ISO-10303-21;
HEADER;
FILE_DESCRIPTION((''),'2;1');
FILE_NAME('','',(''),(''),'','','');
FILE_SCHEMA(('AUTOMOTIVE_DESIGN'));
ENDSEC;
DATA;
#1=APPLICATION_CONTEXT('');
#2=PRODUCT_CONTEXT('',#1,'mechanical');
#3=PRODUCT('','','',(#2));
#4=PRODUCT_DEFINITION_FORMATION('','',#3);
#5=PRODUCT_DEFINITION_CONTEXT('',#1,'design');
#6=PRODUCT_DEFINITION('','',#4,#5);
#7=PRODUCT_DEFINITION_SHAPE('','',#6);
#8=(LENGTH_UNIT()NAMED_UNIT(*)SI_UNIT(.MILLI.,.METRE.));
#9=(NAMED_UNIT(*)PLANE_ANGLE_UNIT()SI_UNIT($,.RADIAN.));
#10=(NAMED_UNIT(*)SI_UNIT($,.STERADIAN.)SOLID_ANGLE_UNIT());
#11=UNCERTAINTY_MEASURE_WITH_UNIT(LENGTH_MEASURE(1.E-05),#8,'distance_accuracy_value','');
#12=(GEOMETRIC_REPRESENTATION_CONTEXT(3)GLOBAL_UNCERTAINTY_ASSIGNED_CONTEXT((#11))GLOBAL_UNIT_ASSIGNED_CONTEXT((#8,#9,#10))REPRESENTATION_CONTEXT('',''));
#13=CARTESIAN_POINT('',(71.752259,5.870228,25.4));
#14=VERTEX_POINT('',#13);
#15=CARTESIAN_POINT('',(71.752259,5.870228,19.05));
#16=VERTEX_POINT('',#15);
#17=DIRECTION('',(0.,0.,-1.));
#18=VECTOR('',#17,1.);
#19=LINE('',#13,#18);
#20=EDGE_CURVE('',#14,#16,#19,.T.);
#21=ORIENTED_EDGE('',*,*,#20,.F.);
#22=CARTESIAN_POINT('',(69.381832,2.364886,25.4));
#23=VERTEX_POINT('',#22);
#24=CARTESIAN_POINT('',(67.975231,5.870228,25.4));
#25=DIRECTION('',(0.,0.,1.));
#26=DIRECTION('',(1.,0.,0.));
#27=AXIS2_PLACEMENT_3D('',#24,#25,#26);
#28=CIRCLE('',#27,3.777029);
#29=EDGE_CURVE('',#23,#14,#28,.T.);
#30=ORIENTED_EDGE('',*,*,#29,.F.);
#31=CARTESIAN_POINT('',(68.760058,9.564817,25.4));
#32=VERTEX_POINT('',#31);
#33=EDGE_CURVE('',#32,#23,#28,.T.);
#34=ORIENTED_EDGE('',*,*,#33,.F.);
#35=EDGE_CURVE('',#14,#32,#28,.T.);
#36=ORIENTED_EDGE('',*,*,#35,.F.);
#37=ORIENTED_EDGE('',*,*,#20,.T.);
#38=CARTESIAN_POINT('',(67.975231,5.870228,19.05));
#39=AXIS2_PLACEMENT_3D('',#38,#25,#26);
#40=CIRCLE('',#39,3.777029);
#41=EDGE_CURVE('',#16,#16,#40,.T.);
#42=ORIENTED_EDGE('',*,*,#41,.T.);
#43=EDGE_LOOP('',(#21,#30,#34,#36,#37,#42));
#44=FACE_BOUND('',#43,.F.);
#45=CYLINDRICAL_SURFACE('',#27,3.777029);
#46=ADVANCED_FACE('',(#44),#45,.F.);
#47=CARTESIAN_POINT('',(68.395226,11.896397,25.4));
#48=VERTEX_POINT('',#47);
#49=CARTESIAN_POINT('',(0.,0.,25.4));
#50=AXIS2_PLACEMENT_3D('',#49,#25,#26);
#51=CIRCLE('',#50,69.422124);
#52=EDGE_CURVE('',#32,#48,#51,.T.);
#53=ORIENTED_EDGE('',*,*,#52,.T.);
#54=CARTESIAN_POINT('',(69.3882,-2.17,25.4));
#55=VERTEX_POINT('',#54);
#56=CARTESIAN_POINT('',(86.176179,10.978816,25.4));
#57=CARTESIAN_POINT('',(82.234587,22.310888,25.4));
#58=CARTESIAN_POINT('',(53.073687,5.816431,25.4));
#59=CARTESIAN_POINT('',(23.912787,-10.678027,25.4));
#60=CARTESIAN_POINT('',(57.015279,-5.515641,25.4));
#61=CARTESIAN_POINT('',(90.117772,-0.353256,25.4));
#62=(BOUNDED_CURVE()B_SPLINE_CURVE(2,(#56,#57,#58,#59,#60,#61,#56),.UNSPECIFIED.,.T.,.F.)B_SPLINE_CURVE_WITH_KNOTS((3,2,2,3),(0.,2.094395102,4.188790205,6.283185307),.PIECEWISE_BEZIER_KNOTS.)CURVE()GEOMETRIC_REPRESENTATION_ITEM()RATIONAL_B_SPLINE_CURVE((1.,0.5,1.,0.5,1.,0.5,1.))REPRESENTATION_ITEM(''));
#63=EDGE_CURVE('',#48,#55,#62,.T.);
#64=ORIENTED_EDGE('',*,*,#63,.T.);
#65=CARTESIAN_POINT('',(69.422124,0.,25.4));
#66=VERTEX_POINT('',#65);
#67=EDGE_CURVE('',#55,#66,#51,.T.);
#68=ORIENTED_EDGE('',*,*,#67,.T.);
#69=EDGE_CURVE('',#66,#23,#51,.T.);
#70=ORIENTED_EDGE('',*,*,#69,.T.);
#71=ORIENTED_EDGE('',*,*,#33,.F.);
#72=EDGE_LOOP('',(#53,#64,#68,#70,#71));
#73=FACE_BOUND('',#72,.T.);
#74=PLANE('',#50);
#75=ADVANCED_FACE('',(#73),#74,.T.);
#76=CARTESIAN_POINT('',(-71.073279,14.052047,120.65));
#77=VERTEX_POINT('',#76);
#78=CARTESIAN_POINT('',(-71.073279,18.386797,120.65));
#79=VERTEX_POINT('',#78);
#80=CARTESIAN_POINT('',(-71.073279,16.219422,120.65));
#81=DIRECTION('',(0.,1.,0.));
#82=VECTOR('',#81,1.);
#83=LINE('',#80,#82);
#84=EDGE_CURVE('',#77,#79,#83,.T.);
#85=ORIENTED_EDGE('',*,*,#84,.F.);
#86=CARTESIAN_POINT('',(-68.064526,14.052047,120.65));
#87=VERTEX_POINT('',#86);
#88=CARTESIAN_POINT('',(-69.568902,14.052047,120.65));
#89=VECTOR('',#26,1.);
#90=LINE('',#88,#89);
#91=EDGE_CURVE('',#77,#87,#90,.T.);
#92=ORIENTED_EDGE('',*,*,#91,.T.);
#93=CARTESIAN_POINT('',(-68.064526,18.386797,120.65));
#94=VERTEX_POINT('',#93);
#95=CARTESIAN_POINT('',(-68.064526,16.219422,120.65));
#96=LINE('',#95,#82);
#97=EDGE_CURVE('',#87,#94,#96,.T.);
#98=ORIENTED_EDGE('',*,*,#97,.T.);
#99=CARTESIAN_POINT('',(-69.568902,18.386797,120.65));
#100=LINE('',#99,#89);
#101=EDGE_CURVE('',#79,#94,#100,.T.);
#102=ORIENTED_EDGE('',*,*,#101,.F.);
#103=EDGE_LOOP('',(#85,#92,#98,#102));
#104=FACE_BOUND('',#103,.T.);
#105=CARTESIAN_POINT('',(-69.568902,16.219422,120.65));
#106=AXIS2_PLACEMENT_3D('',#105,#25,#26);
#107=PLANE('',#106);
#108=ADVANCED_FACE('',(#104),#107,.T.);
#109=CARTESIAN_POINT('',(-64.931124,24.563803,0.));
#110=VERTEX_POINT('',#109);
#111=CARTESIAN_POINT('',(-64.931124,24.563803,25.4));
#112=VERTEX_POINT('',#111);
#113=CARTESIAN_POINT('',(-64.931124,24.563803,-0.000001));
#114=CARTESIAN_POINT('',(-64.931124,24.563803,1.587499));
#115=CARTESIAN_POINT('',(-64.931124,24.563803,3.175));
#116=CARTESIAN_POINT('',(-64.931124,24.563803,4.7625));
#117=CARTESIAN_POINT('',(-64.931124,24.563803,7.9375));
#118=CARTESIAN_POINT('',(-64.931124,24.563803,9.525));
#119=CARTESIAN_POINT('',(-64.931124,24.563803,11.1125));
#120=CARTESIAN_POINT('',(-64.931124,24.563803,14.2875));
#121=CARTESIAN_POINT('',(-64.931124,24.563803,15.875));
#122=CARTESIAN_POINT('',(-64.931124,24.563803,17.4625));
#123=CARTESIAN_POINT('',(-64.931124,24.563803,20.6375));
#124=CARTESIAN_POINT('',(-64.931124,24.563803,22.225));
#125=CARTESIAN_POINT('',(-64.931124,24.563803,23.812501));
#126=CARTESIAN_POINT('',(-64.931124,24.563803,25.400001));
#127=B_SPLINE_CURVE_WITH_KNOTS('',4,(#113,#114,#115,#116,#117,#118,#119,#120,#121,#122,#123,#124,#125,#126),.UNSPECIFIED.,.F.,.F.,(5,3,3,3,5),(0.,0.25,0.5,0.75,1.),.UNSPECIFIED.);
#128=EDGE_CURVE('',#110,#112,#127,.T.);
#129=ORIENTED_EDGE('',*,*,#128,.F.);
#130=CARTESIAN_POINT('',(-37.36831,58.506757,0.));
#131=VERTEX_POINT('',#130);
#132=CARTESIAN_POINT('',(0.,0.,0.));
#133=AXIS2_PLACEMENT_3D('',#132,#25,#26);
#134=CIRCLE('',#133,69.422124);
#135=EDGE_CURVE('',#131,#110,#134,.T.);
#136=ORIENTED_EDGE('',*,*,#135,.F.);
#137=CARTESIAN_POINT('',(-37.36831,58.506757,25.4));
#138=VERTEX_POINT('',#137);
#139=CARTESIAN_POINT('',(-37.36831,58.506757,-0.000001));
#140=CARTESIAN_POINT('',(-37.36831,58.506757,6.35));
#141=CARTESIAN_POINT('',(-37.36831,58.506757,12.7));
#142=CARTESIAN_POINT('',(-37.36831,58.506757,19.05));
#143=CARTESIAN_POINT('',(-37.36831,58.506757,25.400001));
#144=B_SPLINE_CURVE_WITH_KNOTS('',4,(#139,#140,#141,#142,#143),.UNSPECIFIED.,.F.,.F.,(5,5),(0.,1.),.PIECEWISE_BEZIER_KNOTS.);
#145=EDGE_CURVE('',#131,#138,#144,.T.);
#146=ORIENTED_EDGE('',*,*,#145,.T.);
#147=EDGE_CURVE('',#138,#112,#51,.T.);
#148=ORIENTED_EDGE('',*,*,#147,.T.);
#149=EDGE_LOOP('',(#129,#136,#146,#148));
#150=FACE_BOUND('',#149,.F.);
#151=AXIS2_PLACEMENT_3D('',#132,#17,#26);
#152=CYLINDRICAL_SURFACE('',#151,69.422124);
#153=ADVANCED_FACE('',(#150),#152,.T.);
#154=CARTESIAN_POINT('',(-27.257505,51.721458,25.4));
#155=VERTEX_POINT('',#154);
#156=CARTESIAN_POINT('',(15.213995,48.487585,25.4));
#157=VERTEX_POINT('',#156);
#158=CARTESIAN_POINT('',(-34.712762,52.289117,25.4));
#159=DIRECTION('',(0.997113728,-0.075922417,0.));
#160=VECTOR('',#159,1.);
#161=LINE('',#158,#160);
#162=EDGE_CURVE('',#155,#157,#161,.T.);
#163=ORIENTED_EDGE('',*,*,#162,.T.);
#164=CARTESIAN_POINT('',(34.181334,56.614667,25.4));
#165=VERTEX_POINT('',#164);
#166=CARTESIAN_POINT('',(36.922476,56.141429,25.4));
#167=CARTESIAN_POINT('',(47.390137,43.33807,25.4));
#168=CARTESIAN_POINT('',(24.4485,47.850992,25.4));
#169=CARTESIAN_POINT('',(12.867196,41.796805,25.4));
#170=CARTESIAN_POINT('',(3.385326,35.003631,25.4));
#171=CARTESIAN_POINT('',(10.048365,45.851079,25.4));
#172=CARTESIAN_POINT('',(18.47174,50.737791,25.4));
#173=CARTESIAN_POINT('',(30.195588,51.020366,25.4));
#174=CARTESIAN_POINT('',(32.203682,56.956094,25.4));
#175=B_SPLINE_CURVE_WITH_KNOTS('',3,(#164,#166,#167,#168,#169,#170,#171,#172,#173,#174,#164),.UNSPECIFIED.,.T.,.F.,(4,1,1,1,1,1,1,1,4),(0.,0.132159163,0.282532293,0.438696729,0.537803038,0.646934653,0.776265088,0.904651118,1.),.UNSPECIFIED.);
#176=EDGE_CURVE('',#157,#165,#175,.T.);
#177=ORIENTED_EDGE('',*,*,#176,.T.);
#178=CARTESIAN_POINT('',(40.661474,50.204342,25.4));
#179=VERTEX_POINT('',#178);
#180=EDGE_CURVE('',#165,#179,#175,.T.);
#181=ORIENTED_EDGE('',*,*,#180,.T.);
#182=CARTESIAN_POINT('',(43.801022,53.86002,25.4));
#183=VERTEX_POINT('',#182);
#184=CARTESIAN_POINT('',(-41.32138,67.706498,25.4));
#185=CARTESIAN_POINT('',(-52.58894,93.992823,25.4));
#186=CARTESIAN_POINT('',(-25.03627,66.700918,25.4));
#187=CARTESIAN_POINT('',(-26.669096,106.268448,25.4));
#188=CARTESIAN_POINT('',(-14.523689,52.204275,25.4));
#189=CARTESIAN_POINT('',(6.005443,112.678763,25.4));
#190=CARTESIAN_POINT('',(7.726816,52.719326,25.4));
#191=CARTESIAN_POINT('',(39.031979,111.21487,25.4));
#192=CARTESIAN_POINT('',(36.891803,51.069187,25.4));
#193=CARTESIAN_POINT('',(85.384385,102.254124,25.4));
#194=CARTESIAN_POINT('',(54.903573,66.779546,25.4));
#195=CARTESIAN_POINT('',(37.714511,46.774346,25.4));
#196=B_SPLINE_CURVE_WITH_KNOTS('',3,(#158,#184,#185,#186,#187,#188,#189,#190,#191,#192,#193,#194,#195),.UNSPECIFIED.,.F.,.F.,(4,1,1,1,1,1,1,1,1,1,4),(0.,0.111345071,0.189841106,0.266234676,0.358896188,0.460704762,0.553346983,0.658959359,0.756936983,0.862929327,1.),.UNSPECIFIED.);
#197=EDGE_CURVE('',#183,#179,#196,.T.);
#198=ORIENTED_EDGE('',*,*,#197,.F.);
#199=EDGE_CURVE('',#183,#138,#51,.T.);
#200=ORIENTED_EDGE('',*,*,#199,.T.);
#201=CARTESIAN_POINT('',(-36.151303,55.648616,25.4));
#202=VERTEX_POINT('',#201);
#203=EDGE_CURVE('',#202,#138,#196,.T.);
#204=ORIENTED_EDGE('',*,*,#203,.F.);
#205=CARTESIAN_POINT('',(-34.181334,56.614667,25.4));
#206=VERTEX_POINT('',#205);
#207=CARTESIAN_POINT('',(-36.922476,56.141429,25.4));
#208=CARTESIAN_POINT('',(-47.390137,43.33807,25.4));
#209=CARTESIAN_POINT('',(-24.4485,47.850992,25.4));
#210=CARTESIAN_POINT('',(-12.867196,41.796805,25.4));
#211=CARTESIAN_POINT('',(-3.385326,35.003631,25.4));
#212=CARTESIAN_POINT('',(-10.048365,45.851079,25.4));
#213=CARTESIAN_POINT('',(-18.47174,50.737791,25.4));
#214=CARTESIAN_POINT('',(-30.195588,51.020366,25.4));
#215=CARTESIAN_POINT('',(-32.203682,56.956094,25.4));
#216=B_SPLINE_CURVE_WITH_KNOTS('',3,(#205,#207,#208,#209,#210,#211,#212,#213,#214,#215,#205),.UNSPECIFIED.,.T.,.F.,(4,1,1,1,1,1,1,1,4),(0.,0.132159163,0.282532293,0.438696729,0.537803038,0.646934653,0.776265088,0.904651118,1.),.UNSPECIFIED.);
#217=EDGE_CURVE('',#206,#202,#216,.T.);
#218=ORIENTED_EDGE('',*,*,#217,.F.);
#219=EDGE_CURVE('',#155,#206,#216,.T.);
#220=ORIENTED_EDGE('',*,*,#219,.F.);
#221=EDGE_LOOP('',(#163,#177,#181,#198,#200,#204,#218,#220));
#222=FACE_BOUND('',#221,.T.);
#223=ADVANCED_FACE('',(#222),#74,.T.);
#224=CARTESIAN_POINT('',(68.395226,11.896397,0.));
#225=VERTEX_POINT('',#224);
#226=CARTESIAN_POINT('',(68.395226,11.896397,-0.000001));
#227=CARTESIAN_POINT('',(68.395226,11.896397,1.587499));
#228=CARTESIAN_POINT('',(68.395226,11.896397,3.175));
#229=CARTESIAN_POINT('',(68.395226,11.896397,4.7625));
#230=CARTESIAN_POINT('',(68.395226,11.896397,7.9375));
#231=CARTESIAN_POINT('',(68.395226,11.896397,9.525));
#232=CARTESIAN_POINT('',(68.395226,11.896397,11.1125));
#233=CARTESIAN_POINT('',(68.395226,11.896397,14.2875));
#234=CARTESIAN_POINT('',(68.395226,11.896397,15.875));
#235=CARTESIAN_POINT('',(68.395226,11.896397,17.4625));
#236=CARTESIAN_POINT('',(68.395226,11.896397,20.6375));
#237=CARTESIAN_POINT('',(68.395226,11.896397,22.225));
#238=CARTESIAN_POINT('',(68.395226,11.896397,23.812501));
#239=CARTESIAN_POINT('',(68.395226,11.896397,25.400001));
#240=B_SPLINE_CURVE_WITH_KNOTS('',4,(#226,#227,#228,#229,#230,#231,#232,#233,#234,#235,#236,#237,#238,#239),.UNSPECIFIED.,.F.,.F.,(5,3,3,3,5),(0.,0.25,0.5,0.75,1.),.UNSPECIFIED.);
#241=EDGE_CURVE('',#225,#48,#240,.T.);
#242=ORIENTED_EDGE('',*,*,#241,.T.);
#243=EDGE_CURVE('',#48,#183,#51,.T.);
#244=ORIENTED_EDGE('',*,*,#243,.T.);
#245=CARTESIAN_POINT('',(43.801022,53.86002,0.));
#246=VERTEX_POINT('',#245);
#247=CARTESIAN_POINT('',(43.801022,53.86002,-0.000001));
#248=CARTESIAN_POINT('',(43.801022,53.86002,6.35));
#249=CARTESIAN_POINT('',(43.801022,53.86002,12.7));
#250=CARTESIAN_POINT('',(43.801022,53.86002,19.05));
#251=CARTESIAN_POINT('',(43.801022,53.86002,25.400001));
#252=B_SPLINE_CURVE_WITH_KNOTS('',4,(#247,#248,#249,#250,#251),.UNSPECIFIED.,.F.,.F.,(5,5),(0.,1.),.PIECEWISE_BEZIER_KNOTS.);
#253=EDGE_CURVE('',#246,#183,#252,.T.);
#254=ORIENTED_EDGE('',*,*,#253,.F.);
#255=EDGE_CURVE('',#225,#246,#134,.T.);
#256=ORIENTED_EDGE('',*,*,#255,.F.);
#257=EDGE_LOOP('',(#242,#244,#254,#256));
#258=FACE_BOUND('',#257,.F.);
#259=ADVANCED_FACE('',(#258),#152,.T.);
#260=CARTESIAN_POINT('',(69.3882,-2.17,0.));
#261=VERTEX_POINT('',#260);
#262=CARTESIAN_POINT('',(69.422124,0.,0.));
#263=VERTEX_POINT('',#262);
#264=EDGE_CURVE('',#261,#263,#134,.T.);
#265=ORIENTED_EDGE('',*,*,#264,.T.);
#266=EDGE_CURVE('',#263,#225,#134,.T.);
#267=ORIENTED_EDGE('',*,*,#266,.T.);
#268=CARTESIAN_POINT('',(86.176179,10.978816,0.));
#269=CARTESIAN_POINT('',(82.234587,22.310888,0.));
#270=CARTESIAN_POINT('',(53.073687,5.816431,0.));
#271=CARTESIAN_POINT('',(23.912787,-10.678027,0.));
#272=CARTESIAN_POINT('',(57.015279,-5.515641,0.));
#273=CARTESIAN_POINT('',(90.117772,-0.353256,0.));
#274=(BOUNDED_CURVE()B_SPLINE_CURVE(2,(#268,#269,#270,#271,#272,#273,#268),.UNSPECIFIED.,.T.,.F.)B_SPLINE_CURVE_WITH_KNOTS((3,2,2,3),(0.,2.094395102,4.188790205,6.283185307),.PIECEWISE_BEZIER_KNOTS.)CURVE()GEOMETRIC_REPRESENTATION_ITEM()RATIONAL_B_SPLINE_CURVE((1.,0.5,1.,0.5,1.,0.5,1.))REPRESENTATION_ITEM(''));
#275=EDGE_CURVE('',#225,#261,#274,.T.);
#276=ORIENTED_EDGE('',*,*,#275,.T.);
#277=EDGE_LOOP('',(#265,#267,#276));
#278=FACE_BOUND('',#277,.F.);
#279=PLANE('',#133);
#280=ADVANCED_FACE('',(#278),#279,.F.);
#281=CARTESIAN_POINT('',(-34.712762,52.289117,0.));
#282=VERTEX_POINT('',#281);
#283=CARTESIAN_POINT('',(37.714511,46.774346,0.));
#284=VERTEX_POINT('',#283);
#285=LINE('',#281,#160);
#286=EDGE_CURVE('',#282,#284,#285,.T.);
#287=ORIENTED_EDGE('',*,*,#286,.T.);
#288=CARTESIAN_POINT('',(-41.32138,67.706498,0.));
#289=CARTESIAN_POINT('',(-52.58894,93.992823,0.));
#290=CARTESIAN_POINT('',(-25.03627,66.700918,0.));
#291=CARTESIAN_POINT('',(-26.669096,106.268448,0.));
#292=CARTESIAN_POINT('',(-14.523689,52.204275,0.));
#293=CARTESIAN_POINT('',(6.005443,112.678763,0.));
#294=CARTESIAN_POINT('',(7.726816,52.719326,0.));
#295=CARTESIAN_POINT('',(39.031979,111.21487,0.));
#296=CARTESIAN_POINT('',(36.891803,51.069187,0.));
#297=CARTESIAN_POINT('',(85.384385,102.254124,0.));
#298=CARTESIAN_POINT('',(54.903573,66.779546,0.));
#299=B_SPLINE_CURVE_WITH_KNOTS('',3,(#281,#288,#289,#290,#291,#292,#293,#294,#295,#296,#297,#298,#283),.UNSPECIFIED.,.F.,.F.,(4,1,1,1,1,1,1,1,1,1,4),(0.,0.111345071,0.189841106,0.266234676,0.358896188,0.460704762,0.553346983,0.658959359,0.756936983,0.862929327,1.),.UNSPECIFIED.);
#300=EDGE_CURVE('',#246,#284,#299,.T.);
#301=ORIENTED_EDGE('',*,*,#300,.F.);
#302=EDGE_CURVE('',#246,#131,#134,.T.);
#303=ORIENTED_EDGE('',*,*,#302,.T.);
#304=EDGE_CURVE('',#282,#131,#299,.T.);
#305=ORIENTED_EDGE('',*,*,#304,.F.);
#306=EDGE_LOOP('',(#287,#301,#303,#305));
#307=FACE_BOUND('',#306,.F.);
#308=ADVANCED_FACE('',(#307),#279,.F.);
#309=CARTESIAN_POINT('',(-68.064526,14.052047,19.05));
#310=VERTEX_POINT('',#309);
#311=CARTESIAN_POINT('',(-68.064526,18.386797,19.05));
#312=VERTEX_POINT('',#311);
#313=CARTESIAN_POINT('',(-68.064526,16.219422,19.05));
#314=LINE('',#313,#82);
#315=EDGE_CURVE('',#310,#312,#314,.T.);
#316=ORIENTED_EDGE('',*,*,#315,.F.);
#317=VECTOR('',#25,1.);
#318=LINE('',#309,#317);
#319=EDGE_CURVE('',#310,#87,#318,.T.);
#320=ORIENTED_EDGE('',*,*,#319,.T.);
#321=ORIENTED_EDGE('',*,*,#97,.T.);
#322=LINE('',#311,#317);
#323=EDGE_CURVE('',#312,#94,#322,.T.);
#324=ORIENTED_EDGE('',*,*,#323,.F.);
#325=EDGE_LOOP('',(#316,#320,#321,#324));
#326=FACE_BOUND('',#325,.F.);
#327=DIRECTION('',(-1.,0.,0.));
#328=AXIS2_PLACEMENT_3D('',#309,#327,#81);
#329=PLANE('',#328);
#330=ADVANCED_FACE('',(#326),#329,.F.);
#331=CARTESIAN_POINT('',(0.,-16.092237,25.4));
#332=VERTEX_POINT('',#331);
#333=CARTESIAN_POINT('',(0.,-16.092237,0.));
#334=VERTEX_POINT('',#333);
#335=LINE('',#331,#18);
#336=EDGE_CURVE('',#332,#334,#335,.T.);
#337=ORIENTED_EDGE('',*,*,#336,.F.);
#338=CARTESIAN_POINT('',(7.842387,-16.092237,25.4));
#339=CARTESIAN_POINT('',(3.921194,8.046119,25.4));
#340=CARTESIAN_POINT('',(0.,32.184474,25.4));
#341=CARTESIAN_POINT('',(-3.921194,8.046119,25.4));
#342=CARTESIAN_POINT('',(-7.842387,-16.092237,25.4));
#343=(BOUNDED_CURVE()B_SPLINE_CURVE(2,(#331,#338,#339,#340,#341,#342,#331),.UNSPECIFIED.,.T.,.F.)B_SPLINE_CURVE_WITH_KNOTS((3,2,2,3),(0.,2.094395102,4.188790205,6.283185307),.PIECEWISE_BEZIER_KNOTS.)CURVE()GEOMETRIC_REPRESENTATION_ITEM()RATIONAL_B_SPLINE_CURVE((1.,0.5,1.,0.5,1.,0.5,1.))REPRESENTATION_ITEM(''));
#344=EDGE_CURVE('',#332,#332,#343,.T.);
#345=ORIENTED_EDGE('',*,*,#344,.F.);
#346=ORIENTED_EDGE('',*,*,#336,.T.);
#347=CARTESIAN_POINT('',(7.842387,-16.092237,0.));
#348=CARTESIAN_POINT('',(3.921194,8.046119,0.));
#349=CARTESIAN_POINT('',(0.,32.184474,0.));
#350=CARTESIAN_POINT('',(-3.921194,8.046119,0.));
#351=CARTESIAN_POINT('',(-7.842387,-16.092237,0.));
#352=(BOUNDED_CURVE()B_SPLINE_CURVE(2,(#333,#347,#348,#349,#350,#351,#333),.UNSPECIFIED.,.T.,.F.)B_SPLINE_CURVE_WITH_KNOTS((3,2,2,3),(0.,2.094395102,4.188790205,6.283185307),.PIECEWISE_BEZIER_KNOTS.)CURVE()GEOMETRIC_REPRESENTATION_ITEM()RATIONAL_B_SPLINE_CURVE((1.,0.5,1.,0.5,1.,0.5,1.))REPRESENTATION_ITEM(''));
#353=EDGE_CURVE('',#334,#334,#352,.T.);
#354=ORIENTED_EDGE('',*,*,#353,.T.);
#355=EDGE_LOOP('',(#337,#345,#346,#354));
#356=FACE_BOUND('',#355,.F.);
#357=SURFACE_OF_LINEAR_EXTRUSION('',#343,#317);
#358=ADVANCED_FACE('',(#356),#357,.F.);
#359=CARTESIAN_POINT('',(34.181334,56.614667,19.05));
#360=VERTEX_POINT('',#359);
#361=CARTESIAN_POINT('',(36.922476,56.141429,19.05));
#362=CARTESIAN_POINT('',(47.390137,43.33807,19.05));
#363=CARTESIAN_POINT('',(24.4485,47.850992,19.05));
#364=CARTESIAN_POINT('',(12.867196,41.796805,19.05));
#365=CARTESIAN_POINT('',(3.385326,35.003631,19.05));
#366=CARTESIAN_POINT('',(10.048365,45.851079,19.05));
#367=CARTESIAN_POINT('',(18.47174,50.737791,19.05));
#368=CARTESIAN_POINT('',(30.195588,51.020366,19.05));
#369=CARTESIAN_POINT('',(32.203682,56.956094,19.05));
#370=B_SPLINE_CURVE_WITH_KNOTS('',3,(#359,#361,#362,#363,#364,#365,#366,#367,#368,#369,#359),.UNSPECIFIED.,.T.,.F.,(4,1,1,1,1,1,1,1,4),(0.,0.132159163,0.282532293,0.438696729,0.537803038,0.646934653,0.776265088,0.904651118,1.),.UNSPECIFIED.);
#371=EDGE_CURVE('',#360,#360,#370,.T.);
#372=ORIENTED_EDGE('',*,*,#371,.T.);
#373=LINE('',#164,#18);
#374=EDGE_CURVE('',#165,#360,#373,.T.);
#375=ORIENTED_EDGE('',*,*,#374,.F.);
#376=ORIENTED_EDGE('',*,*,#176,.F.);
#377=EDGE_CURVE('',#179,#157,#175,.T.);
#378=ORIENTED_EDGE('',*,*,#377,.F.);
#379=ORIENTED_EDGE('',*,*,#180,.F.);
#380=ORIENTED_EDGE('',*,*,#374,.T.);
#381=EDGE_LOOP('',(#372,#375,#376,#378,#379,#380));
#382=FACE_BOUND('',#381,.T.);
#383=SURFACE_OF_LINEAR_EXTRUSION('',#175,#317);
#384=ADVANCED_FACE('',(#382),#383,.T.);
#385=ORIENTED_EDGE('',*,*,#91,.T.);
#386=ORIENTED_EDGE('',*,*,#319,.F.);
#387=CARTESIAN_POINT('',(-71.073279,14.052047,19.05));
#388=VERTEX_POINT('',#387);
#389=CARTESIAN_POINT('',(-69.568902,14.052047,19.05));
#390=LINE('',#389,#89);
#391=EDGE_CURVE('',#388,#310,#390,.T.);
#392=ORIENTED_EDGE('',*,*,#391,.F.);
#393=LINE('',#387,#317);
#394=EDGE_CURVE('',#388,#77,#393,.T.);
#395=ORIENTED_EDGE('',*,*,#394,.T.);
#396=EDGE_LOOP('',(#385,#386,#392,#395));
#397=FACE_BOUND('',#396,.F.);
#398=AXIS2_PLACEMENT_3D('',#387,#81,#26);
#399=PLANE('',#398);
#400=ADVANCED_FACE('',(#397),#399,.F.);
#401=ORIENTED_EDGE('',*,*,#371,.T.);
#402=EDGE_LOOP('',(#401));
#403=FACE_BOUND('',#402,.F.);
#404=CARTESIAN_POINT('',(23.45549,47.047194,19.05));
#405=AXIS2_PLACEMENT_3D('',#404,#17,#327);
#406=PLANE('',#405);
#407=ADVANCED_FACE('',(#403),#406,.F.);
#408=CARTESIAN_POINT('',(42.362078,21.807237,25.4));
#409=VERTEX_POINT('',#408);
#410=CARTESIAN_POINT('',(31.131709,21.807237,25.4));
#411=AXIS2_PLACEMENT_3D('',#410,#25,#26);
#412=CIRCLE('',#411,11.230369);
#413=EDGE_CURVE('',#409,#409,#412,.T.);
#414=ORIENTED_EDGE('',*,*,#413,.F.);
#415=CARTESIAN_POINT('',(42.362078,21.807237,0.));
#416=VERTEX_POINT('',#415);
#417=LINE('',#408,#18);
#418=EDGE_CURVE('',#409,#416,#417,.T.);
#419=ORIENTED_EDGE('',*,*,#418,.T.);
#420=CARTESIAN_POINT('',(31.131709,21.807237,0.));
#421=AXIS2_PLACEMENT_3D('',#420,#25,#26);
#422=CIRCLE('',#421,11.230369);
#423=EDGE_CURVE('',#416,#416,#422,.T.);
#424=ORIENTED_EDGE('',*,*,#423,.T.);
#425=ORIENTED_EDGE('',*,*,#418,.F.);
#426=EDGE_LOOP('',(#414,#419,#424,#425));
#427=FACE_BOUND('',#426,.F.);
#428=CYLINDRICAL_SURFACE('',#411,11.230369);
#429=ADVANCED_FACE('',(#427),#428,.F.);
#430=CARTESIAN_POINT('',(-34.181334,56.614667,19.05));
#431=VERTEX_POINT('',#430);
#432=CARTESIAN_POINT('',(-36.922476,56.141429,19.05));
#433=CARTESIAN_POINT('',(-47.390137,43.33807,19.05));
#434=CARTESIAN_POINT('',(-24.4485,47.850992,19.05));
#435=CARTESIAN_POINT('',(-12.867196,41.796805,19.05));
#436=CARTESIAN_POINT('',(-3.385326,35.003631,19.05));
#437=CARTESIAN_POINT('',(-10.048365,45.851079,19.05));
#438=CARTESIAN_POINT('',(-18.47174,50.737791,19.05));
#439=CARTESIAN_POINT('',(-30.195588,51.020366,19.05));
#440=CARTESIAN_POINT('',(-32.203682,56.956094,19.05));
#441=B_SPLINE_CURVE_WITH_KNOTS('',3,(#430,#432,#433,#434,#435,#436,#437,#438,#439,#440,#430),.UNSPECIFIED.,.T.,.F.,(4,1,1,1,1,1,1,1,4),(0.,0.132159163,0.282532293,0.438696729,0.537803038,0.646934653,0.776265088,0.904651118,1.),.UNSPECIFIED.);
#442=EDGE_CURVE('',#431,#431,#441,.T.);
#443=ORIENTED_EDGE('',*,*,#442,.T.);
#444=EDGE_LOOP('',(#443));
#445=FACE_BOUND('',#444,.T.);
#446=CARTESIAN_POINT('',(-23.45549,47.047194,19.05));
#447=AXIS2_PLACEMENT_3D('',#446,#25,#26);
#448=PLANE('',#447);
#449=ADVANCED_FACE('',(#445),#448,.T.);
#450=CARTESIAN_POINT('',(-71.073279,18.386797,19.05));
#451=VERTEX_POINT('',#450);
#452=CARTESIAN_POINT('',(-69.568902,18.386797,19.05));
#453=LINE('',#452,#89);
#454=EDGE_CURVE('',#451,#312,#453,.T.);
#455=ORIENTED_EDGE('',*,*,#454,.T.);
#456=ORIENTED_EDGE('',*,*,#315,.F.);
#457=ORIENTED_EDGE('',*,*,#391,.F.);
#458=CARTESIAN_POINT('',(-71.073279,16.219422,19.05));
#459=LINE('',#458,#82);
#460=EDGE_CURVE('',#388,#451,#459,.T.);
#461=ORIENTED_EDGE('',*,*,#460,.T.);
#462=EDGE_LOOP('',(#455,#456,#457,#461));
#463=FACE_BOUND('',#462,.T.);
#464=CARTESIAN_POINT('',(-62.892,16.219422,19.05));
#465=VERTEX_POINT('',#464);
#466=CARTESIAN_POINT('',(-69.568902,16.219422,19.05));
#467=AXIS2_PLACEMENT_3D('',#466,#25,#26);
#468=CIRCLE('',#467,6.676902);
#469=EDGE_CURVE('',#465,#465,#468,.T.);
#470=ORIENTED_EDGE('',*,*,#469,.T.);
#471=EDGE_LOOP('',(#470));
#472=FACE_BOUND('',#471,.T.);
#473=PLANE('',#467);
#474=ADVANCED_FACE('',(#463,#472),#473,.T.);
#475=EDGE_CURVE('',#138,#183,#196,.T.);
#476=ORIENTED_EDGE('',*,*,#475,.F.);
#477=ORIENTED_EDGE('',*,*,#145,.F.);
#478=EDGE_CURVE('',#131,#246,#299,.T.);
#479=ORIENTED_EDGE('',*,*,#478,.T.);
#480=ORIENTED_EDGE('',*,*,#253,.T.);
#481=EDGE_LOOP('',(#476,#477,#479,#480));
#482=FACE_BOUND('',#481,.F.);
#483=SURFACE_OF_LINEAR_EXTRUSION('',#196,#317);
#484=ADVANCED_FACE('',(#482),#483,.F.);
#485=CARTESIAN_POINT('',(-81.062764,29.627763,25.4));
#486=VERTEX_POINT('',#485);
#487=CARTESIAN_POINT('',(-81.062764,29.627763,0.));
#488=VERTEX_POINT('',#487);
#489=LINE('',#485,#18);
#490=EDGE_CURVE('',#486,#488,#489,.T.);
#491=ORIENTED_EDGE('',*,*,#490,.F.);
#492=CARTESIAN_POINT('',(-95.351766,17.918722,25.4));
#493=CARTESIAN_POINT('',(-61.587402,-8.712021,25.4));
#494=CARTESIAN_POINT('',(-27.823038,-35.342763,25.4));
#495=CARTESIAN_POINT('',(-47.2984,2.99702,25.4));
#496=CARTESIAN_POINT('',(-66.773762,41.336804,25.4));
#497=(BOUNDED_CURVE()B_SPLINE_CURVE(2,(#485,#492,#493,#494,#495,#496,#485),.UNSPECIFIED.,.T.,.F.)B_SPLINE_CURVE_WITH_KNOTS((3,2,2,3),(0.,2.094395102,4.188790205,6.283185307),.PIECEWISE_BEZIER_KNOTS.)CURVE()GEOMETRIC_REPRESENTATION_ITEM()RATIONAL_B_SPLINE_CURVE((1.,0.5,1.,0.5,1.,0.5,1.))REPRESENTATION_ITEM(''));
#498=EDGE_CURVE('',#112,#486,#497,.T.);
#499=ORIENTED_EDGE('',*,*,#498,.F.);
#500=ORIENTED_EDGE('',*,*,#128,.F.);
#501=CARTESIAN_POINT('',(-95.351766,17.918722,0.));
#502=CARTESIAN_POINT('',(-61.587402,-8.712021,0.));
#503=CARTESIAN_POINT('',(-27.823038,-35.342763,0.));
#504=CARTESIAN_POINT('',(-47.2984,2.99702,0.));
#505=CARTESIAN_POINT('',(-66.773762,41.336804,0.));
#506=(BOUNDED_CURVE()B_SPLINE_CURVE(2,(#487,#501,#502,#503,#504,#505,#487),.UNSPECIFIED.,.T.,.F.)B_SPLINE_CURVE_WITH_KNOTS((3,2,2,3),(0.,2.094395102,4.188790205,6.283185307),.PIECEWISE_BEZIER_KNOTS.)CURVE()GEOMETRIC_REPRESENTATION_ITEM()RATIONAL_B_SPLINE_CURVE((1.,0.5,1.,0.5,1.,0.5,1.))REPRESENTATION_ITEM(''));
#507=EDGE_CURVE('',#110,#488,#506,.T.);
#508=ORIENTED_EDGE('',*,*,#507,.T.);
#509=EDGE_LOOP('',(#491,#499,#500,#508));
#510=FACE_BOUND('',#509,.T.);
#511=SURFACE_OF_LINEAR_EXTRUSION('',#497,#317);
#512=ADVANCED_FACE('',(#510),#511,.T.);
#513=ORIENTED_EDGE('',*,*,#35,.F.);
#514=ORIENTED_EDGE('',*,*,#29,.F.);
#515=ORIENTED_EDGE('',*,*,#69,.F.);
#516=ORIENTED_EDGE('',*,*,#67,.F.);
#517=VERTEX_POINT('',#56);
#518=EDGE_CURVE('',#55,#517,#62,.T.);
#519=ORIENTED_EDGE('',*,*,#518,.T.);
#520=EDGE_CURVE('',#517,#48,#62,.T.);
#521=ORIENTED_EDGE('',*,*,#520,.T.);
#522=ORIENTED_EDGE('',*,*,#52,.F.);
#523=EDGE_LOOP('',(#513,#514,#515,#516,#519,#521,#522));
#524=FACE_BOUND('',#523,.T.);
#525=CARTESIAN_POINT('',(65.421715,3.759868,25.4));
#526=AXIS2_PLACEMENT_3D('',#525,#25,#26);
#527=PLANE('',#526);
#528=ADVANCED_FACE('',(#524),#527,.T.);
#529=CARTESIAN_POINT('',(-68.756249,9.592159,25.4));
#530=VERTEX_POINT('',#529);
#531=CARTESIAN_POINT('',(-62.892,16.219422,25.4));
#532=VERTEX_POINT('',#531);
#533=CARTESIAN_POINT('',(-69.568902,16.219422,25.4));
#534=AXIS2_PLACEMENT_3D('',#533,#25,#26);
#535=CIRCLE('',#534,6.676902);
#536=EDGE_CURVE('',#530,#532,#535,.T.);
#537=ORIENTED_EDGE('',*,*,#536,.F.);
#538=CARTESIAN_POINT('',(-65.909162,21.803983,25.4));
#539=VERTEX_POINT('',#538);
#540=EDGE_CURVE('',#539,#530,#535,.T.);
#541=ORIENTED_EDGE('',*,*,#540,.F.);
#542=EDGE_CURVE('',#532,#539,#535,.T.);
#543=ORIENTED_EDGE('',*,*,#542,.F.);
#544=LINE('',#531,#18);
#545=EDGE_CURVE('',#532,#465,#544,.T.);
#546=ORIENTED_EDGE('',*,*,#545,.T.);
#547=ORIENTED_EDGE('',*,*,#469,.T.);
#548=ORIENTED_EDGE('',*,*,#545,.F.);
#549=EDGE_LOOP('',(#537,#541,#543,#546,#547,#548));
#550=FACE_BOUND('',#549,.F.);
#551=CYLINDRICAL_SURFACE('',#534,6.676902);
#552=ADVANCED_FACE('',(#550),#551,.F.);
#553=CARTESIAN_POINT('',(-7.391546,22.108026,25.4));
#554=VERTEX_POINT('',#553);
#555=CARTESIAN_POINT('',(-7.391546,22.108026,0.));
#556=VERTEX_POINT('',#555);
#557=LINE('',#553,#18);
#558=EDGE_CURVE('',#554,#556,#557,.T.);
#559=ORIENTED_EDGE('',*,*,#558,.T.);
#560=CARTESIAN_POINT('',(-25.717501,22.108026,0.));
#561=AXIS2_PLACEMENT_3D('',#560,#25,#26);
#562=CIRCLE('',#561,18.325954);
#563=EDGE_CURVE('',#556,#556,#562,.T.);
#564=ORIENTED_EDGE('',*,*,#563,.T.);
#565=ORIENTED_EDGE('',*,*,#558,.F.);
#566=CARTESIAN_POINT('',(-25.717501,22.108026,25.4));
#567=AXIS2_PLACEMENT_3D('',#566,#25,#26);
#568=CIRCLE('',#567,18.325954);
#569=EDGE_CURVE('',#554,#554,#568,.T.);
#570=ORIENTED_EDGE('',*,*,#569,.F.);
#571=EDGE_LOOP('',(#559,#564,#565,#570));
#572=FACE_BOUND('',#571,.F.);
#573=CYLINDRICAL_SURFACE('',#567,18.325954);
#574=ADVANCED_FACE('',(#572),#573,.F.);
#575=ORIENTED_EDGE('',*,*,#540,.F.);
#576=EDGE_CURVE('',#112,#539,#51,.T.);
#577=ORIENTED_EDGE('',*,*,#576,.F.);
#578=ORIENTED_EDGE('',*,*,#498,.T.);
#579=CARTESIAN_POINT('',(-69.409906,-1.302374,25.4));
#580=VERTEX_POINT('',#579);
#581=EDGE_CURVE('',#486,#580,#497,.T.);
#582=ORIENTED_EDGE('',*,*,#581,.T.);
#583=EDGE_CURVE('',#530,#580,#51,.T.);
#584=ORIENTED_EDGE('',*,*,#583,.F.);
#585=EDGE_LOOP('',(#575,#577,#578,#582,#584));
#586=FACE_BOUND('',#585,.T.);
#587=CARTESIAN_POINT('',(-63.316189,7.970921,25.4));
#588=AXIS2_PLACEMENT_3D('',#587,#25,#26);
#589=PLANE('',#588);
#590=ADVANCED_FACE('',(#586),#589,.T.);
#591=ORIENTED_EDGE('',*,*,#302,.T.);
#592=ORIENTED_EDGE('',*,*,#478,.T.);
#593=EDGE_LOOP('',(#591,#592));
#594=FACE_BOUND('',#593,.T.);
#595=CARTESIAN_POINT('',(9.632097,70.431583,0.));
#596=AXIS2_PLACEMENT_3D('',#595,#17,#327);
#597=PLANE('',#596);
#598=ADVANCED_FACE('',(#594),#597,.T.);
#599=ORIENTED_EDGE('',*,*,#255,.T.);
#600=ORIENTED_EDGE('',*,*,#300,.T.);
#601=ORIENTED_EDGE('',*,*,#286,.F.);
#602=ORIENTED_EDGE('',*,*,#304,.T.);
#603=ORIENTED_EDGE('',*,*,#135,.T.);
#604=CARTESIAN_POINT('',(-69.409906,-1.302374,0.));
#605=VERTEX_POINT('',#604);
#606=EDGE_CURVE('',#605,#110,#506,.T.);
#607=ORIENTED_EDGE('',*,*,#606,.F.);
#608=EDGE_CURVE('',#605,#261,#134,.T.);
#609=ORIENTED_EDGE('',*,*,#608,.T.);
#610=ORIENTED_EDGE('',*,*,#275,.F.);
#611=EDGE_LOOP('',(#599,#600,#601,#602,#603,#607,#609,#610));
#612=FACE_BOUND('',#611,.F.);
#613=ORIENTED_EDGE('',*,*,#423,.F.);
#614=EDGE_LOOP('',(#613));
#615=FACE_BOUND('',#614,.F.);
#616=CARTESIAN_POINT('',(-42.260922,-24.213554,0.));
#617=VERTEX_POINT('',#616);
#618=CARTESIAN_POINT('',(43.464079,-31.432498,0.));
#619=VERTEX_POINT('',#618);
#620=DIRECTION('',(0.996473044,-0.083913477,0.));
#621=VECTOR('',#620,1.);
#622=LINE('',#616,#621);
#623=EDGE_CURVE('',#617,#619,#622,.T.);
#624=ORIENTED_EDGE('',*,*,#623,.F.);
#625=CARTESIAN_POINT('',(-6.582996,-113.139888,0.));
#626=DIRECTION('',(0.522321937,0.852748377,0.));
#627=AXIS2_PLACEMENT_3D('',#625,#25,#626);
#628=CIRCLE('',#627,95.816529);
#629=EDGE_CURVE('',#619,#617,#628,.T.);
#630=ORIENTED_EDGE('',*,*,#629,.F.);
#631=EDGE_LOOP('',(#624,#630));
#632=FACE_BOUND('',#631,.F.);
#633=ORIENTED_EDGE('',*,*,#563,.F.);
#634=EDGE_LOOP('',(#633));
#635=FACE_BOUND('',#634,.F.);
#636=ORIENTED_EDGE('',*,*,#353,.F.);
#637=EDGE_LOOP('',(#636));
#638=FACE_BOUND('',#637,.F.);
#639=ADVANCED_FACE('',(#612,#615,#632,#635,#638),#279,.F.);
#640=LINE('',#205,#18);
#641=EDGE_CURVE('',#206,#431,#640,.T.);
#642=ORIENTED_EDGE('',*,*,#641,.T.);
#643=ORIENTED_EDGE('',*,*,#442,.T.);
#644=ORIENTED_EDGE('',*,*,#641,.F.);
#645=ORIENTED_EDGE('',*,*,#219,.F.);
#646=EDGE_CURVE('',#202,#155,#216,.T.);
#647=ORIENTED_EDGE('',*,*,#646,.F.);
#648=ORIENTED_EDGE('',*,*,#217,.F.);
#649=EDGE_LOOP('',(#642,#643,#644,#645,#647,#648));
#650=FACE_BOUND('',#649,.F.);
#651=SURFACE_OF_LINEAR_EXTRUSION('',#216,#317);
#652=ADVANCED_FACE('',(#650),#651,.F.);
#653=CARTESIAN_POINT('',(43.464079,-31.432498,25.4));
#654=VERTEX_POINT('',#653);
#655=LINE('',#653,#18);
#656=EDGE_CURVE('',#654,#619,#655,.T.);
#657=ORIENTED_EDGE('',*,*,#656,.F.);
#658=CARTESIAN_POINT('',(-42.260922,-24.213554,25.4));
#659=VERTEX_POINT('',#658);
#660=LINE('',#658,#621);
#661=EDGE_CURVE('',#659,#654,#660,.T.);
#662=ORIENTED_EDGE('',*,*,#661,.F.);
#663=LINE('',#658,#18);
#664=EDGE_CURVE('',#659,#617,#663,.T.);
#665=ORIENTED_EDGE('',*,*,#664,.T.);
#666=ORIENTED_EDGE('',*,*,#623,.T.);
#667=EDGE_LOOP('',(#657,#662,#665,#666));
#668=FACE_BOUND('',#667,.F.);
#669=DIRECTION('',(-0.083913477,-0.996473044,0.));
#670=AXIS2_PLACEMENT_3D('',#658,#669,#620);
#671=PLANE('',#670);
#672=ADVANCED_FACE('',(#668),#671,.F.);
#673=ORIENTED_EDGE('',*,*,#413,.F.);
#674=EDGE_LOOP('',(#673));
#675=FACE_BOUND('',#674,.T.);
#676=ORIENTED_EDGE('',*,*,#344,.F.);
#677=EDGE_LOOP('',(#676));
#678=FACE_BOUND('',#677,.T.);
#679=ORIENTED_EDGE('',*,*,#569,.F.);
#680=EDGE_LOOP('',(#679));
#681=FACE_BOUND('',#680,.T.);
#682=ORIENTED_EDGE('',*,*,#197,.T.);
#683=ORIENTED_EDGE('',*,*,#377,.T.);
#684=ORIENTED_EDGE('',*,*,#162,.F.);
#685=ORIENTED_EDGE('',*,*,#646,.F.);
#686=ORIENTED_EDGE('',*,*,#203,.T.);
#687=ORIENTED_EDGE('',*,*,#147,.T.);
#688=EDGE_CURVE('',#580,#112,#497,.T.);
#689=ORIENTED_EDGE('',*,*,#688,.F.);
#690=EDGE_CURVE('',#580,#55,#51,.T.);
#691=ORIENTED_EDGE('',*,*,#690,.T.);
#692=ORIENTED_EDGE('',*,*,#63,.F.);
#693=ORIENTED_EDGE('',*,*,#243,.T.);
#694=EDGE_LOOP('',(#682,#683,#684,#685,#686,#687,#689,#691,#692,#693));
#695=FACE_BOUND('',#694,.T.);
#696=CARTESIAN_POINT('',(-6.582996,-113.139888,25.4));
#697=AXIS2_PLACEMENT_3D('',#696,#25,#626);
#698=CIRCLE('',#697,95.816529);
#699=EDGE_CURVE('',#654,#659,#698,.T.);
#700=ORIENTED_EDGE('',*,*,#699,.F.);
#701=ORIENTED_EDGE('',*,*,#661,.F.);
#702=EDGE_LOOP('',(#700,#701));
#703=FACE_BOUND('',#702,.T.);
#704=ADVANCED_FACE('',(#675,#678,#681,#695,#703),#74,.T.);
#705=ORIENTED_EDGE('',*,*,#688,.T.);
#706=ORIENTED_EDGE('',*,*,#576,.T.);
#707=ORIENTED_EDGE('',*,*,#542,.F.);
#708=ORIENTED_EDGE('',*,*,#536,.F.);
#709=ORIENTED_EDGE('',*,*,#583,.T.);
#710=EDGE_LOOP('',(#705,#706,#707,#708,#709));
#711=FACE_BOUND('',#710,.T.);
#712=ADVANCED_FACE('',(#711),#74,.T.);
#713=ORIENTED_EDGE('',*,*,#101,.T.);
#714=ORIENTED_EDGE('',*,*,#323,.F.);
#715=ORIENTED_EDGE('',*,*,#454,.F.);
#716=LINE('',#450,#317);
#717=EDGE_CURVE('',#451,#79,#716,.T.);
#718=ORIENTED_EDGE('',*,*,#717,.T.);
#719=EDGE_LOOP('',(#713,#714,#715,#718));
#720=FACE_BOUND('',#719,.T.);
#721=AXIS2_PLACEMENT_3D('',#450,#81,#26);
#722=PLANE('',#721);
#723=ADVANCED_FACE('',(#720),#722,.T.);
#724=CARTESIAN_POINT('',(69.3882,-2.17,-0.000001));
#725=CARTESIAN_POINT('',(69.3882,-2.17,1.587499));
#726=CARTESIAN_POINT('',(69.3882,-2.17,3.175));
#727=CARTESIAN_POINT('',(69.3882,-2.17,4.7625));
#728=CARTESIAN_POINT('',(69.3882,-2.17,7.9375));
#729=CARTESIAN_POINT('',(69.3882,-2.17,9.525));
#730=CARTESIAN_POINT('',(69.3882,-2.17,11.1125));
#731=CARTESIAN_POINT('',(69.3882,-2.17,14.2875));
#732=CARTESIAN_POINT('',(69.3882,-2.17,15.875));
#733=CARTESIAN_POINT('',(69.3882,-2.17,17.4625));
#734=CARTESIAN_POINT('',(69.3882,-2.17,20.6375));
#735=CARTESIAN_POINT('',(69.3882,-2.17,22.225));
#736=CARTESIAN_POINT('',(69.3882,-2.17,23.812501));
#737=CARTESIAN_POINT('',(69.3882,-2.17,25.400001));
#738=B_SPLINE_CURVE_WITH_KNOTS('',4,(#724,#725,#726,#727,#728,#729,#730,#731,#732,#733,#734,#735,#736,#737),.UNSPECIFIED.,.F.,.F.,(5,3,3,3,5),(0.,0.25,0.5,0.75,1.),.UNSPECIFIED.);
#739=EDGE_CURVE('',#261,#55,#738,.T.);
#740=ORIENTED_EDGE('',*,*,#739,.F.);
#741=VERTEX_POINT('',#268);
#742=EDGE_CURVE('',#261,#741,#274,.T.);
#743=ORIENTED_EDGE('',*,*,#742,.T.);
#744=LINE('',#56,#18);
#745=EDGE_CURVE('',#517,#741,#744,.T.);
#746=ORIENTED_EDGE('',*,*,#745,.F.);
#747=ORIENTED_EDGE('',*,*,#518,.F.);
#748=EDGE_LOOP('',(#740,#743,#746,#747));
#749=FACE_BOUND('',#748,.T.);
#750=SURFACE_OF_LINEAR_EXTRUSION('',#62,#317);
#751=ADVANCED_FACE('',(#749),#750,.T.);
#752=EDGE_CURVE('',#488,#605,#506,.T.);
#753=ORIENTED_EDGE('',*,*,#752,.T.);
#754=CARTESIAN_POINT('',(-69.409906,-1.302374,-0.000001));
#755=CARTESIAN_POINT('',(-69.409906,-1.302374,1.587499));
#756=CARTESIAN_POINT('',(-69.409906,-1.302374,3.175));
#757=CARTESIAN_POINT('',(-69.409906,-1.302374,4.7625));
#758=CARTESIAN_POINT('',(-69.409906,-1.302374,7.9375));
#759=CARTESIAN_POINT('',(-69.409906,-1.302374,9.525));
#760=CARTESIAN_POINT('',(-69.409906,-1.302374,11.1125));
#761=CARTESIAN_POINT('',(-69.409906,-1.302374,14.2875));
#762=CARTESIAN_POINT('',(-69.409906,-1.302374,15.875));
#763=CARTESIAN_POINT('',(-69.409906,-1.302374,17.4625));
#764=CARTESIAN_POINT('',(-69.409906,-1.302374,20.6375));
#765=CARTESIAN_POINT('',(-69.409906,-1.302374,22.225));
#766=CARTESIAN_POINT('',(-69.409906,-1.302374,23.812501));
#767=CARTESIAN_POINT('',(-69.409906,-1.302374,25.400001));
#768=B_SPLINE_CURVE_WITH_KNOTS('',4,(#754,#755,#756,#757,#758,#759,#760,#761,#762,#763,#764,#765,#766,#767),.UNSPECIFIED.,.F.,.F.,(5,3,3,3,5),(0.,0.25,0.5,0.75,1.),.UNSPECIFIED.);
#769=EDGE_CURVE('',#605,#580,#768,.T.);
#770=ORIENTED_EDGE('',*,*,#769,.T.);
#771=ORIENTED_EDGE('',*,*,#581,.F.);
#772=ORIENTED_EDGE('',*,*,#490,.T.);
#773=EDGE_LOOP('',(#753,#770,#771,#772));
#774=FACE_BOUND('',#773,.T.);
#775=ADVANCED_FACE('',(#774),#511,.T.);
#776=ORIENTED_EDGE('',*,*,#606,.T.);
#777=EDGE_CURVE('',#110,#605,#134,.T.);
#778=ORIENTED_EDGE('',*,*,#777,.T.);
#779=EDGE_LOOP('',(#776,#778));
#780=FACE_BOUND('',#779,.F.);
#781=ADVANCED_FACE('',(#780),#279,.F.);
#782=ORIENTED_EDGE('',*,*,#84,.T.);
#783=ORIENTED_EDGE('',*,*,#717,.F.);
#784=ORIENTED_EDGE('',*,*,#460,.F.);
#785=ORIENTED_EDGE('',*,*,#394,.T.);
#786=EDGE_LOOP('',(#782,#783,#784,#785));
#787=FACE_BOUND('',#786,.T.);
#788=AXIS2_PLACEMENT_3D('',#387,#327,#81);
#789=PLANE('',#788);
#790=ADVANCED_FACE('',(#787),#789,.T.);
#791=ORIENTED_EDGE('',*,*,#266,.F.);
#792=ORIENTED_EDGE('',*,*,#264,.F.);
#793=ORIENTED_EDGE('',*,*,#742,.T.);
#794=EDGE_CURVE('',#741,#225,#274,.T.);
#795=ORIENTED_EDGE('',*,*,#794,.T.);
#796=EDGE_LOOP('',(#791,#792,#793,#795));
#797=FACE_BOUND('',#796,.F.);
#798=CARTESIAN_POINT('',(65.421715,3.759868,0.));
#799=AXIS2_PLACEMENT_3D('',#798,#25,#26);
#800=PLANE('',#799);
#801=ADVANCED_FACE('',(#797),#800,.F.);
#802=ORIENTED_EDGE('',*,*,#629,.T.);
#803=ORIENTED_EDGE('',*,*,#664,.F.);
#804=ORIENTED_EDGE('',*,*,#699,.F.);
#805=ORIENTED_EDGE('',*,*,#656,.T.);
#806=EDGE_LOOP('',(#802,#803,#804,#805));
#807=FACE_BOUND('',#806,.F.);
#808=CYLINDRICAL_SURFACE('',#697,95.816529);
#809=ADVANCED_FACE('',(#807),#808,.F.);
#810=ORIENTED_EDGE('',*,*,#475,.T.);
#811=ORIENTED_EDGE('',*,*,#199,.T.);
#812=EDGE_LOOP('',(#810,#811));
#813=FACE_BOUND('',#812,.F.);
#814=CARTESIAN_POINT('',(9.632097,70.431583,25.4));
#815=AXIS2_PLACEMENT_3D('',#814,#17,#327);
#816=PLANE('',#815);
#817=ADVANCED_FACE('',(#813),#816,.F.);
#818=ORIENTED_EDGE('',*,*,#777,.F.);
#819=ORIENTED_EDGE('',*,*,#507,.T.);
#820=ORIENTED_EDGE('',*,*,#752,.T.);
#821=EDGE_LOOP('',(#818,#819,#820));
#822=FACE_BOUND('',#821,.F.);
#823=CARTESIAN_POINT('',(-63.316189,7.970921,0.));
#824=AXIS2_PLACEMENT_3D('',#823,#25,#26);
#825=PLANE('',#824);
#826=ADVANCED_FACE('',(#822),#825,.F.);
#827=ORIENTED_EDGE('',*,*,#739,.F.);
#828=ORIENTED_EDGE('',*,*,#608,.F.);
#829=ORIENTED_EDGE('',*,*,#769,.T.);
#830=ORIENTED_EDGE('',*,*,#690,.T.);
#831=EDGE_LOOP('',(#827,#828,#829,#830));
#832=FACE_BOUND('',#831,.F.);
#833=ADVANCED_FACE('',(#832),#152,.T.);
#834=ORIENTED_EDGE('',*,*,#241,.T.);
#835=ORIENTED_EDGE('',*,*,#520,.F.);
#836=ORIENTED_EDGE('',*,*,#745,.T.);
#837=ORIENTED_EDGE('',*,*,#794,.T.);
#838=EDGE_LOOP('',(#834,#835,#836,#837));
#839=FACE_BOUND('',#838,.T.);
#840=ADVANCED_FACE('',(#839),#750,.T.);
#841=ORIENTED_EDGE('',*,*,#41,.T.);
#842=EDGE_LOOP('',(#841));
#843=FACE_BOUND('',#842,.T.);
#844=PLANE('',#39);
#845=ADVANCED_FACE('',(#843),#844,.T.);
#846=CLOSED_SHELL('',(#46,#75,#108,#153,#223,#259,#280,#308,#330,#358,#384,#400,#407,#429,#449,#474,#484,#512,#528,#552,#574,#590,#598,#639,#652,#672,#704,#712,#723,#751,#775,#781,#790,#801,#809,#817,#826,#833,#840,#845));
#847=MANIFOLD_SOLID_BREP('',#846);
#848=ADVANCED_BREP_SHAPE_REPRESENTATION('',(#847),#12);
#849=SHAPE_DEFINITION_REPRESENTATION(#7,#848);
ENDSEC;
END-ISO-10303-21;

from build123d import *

# Parameters (mm, degrees)
F0_R      = 69.4221235663
F1_DEPTH  = 25.4
F2_R      = 18.3259544641
F2_R_2    = 11.230368882
F3_DEPTH  = 25.4
F5_DEPTH  = 25.4
F7_DEPTH  = 25.4
F9_DEPTH  = 25.4
F10_R     = 6.6769018769
F10_R_2   = 3.7770285188
F11_DEPTH = 6.35
F12_W     = 3.0087530613
F12_H     = 4.3347496539
F13_DEPTH = 101.6
F15_DEPTH = 6.35


with BuildPart() as f1:
    # F0 (on Top) → F1 (new body)
    with BuildSketch(Plane.XY):
        Circle(F0_R)
    extrude(amount=F1_DEPTH)

    # F2 (on face) → F3 (cut)
    with BuildSketch(Plane.XY.offset(25.4)):
        with Locations((-25.7175005972, 22.1080258489)):
            Circle(F2_R)
        with Locations((31.1317089945, 21.8072365969)):
            Circle(F2_R_2)
        with BuildLine():
            add(Edge.make_bspline(
                [(0, -16.0922370851), (7.8423873252, -16.0922370851), (3.9211936626, 8.0461185426), (0, 32.1844741702), (-3.9211936626, 8.0461185426), (-7.8423873252, -16.0922370851), (0, -16.0922370851)],
                knots=[0, 0, 0, 2.0943951024, 2.0943951024, 4.1887902048, 4.1887902048, 6.2831853072, 6.2831853072, 6.2831853072], degree=2, weights=[1, 0.5, 1, 0.5, 1, 0.5, 1]))
        make_face()
    extrude(amount=-F3_DEPTH, mode=Mode.SUBTRACT)

    # F4 (on face) → F5 (cut)
    with BuildSketch(Plane.XY.offset(25.4)):
        with BuildLine():
            Line((-42.2609224916, -24.2135543376), (43.4640794992, -31.4324982464))
            ThreePointArc((43.4640794992, -31.4324982464), (1.457302443, -17.6612994082), (-42.2609224916, -24.2135543376))
        make_face()
    extrude(amount=-F5_DEPTH, mode=Mode.SUBTRACT)

    # F6 (on face) → F7 (join)
    with BuildSketch(Plane.XY.offset(25.4)):
        with BuildLine():
            add(Edge.make_bspline(
                [(86.1761793494, 10.9788160771), (82.234587166, 22.3108878836), (53.0736873017, 5.8164305292), (23.9127874374, -10.6780268252), (57.0152794851, -5.5156412773), (90.1177715328, -0.3532557294), (86.1761793494, 10.9788160771)],
                knots=[0, 0, 0, 2.0943951024, 2.0943951024, 4.1887902048, 4.1887902048, 6.2831853072, 6.2831853072, 6.2831853072], degree=2, weights=[1, 0.5, 1, 0.5, 1, 0.5, 1]))
        make_face()
        with BuildLine():
            add(Edge.make_bspline(
                [(-81.0627639294, 29.6277627349), (-95.3517658221, 17.9187219325), (-61.5874021106, -8.7120206228), (-27.8230383992, -35.3427631781), (-47.2984002179, 2.9970201796), (-66.7737620367, 41.3368035373), (-81.0627639294, 29.6277627349)],
                knots=[0, 0, 0, 2.0943951024, 2.0943951024, 4.1887902048, 4.1887902048, 6.2831853072, 6.2831853072, 6.2831853072], degree=2, weights=[1, 0.5, 1, 0.5, 1, 0.5, 1]))
        make_face()
    extrude(amount=-F7_DEPTH)

    # F8 (on face) → F9 (join)
    with BuildSketch(Plane.XY.offset(25.4)):
        with BuildLine():
            add(Edge.make_bspline(
                [(-34.7127616405, 52.2891171277), (-41.3213796589, 67.7064983727), (-52.5889404131, 93.9928231938), (-25.036270403, 66.7009183836), (-26.669095778, 106.2684481917), (-14.5236889546, 52.2042746388), (6.0054434566, 112.6787634462), (7.7268162818, 52.7193258733), (39.0319786658, 111.2148702361), (36.8918029477, 51.0691867167), (85.3843850564, 102.2541236713), (54.9035734988, 66.7795461558), (37.7145111561, 46.7743463814)],
                knots=[0, 0, 0, 0, 0.1113450712, 0.189841106, 0.2662346761, 0.3588961878, 0.4607047625, 0.5533469832, 0.6589593594, 0.7569369832, 0.8629293272, 1, 1, 1, 1], degree=3))
            Line((-34.7127616405, 52.2891171277), (37.7145111561, 46.7743463814))
        make_face()
    extrude(amount=-F9_DEPTH)

    # F10 (on face) → F11 (cut)
    with BuildSketch(Plane.XY.offset(25.4)):
        with Locations((-69.5689022541, 16.2194222212)):
            Circle(F10_R)
        with Locations((67.975230515, 5.870227702)):
            Circle(F10_R_2)
    extrude(amount=-F11_DEPTH, mode=Mode.SUBTRACT)

    # F12 (on face) → F13 (join)
    with BuildSketch(Plane.XY.offset(19.05)):
        with Locations((-69.5689022541, 16.2194222212)):
            Rectangle(F12_W, F12_H)
    extrude(amount=F13_DEPTH)

    # F14 (on face) → F15 (cut)
    with BuildSketch(Plane.XY.offset(25.4)):
        with BuildLine():
            add(Edge.make_bspline(
                [(-34.1813340783, 56.6146671772), (-36.9224760616, 56.1414289673), (-47.3901373934, 43.3380703243), (-24.4485004792, 47.8509921873), (-12.8671959652, 41.7968047129), (-3.3853258711, 35.0036309361), (-10.0483649738, 45.8510794051), (-18.4717401229, 50.7377906531), (-30.1955878456, 51.0203662372), (-32.2036821557, 56.9560943858), (-34.1813340783, 56.6146671772)],
                knots=[0, 0, 0, 0, 0.1321591628, 0.2825322934, 0.4386967288, 0.537803038, 0.6469346527, 0.7762650878, 0.9046511184, 1, 1, 1, 1], degree=3))
        make_face()
        with BuildLine():
            add(Edge.make_bspline(
                [(34.1813340783, 56.6146671772), (36.9224760616, 56.1414289673), (47.3901373934, 43.3380703243), (24.4485004792, 47.8509921873), (12.8671959652, 41.7968047129), (3.3853258711, 35.0036309361), (10.0483649738, 45.8510794051), (18.4717401229, 50.7377906531), (30.1955878456, 51.0203662372), (32.2036821557, 56.9560943858), (34.1813340783, 56.6146671772)],
                knots=[0, 0, 0, 0, 0.1321591628, 0.2825322934, 0.4386967288, 0.537803038, 0.6469346527, 0.7762650878, 0.9046511184, 1, 1, 1, 1], degree=3))
        make_face()
    extrude(amount=-F15_DEPTH, mode=Mode.SUBTRACT)


solid = f1.part
